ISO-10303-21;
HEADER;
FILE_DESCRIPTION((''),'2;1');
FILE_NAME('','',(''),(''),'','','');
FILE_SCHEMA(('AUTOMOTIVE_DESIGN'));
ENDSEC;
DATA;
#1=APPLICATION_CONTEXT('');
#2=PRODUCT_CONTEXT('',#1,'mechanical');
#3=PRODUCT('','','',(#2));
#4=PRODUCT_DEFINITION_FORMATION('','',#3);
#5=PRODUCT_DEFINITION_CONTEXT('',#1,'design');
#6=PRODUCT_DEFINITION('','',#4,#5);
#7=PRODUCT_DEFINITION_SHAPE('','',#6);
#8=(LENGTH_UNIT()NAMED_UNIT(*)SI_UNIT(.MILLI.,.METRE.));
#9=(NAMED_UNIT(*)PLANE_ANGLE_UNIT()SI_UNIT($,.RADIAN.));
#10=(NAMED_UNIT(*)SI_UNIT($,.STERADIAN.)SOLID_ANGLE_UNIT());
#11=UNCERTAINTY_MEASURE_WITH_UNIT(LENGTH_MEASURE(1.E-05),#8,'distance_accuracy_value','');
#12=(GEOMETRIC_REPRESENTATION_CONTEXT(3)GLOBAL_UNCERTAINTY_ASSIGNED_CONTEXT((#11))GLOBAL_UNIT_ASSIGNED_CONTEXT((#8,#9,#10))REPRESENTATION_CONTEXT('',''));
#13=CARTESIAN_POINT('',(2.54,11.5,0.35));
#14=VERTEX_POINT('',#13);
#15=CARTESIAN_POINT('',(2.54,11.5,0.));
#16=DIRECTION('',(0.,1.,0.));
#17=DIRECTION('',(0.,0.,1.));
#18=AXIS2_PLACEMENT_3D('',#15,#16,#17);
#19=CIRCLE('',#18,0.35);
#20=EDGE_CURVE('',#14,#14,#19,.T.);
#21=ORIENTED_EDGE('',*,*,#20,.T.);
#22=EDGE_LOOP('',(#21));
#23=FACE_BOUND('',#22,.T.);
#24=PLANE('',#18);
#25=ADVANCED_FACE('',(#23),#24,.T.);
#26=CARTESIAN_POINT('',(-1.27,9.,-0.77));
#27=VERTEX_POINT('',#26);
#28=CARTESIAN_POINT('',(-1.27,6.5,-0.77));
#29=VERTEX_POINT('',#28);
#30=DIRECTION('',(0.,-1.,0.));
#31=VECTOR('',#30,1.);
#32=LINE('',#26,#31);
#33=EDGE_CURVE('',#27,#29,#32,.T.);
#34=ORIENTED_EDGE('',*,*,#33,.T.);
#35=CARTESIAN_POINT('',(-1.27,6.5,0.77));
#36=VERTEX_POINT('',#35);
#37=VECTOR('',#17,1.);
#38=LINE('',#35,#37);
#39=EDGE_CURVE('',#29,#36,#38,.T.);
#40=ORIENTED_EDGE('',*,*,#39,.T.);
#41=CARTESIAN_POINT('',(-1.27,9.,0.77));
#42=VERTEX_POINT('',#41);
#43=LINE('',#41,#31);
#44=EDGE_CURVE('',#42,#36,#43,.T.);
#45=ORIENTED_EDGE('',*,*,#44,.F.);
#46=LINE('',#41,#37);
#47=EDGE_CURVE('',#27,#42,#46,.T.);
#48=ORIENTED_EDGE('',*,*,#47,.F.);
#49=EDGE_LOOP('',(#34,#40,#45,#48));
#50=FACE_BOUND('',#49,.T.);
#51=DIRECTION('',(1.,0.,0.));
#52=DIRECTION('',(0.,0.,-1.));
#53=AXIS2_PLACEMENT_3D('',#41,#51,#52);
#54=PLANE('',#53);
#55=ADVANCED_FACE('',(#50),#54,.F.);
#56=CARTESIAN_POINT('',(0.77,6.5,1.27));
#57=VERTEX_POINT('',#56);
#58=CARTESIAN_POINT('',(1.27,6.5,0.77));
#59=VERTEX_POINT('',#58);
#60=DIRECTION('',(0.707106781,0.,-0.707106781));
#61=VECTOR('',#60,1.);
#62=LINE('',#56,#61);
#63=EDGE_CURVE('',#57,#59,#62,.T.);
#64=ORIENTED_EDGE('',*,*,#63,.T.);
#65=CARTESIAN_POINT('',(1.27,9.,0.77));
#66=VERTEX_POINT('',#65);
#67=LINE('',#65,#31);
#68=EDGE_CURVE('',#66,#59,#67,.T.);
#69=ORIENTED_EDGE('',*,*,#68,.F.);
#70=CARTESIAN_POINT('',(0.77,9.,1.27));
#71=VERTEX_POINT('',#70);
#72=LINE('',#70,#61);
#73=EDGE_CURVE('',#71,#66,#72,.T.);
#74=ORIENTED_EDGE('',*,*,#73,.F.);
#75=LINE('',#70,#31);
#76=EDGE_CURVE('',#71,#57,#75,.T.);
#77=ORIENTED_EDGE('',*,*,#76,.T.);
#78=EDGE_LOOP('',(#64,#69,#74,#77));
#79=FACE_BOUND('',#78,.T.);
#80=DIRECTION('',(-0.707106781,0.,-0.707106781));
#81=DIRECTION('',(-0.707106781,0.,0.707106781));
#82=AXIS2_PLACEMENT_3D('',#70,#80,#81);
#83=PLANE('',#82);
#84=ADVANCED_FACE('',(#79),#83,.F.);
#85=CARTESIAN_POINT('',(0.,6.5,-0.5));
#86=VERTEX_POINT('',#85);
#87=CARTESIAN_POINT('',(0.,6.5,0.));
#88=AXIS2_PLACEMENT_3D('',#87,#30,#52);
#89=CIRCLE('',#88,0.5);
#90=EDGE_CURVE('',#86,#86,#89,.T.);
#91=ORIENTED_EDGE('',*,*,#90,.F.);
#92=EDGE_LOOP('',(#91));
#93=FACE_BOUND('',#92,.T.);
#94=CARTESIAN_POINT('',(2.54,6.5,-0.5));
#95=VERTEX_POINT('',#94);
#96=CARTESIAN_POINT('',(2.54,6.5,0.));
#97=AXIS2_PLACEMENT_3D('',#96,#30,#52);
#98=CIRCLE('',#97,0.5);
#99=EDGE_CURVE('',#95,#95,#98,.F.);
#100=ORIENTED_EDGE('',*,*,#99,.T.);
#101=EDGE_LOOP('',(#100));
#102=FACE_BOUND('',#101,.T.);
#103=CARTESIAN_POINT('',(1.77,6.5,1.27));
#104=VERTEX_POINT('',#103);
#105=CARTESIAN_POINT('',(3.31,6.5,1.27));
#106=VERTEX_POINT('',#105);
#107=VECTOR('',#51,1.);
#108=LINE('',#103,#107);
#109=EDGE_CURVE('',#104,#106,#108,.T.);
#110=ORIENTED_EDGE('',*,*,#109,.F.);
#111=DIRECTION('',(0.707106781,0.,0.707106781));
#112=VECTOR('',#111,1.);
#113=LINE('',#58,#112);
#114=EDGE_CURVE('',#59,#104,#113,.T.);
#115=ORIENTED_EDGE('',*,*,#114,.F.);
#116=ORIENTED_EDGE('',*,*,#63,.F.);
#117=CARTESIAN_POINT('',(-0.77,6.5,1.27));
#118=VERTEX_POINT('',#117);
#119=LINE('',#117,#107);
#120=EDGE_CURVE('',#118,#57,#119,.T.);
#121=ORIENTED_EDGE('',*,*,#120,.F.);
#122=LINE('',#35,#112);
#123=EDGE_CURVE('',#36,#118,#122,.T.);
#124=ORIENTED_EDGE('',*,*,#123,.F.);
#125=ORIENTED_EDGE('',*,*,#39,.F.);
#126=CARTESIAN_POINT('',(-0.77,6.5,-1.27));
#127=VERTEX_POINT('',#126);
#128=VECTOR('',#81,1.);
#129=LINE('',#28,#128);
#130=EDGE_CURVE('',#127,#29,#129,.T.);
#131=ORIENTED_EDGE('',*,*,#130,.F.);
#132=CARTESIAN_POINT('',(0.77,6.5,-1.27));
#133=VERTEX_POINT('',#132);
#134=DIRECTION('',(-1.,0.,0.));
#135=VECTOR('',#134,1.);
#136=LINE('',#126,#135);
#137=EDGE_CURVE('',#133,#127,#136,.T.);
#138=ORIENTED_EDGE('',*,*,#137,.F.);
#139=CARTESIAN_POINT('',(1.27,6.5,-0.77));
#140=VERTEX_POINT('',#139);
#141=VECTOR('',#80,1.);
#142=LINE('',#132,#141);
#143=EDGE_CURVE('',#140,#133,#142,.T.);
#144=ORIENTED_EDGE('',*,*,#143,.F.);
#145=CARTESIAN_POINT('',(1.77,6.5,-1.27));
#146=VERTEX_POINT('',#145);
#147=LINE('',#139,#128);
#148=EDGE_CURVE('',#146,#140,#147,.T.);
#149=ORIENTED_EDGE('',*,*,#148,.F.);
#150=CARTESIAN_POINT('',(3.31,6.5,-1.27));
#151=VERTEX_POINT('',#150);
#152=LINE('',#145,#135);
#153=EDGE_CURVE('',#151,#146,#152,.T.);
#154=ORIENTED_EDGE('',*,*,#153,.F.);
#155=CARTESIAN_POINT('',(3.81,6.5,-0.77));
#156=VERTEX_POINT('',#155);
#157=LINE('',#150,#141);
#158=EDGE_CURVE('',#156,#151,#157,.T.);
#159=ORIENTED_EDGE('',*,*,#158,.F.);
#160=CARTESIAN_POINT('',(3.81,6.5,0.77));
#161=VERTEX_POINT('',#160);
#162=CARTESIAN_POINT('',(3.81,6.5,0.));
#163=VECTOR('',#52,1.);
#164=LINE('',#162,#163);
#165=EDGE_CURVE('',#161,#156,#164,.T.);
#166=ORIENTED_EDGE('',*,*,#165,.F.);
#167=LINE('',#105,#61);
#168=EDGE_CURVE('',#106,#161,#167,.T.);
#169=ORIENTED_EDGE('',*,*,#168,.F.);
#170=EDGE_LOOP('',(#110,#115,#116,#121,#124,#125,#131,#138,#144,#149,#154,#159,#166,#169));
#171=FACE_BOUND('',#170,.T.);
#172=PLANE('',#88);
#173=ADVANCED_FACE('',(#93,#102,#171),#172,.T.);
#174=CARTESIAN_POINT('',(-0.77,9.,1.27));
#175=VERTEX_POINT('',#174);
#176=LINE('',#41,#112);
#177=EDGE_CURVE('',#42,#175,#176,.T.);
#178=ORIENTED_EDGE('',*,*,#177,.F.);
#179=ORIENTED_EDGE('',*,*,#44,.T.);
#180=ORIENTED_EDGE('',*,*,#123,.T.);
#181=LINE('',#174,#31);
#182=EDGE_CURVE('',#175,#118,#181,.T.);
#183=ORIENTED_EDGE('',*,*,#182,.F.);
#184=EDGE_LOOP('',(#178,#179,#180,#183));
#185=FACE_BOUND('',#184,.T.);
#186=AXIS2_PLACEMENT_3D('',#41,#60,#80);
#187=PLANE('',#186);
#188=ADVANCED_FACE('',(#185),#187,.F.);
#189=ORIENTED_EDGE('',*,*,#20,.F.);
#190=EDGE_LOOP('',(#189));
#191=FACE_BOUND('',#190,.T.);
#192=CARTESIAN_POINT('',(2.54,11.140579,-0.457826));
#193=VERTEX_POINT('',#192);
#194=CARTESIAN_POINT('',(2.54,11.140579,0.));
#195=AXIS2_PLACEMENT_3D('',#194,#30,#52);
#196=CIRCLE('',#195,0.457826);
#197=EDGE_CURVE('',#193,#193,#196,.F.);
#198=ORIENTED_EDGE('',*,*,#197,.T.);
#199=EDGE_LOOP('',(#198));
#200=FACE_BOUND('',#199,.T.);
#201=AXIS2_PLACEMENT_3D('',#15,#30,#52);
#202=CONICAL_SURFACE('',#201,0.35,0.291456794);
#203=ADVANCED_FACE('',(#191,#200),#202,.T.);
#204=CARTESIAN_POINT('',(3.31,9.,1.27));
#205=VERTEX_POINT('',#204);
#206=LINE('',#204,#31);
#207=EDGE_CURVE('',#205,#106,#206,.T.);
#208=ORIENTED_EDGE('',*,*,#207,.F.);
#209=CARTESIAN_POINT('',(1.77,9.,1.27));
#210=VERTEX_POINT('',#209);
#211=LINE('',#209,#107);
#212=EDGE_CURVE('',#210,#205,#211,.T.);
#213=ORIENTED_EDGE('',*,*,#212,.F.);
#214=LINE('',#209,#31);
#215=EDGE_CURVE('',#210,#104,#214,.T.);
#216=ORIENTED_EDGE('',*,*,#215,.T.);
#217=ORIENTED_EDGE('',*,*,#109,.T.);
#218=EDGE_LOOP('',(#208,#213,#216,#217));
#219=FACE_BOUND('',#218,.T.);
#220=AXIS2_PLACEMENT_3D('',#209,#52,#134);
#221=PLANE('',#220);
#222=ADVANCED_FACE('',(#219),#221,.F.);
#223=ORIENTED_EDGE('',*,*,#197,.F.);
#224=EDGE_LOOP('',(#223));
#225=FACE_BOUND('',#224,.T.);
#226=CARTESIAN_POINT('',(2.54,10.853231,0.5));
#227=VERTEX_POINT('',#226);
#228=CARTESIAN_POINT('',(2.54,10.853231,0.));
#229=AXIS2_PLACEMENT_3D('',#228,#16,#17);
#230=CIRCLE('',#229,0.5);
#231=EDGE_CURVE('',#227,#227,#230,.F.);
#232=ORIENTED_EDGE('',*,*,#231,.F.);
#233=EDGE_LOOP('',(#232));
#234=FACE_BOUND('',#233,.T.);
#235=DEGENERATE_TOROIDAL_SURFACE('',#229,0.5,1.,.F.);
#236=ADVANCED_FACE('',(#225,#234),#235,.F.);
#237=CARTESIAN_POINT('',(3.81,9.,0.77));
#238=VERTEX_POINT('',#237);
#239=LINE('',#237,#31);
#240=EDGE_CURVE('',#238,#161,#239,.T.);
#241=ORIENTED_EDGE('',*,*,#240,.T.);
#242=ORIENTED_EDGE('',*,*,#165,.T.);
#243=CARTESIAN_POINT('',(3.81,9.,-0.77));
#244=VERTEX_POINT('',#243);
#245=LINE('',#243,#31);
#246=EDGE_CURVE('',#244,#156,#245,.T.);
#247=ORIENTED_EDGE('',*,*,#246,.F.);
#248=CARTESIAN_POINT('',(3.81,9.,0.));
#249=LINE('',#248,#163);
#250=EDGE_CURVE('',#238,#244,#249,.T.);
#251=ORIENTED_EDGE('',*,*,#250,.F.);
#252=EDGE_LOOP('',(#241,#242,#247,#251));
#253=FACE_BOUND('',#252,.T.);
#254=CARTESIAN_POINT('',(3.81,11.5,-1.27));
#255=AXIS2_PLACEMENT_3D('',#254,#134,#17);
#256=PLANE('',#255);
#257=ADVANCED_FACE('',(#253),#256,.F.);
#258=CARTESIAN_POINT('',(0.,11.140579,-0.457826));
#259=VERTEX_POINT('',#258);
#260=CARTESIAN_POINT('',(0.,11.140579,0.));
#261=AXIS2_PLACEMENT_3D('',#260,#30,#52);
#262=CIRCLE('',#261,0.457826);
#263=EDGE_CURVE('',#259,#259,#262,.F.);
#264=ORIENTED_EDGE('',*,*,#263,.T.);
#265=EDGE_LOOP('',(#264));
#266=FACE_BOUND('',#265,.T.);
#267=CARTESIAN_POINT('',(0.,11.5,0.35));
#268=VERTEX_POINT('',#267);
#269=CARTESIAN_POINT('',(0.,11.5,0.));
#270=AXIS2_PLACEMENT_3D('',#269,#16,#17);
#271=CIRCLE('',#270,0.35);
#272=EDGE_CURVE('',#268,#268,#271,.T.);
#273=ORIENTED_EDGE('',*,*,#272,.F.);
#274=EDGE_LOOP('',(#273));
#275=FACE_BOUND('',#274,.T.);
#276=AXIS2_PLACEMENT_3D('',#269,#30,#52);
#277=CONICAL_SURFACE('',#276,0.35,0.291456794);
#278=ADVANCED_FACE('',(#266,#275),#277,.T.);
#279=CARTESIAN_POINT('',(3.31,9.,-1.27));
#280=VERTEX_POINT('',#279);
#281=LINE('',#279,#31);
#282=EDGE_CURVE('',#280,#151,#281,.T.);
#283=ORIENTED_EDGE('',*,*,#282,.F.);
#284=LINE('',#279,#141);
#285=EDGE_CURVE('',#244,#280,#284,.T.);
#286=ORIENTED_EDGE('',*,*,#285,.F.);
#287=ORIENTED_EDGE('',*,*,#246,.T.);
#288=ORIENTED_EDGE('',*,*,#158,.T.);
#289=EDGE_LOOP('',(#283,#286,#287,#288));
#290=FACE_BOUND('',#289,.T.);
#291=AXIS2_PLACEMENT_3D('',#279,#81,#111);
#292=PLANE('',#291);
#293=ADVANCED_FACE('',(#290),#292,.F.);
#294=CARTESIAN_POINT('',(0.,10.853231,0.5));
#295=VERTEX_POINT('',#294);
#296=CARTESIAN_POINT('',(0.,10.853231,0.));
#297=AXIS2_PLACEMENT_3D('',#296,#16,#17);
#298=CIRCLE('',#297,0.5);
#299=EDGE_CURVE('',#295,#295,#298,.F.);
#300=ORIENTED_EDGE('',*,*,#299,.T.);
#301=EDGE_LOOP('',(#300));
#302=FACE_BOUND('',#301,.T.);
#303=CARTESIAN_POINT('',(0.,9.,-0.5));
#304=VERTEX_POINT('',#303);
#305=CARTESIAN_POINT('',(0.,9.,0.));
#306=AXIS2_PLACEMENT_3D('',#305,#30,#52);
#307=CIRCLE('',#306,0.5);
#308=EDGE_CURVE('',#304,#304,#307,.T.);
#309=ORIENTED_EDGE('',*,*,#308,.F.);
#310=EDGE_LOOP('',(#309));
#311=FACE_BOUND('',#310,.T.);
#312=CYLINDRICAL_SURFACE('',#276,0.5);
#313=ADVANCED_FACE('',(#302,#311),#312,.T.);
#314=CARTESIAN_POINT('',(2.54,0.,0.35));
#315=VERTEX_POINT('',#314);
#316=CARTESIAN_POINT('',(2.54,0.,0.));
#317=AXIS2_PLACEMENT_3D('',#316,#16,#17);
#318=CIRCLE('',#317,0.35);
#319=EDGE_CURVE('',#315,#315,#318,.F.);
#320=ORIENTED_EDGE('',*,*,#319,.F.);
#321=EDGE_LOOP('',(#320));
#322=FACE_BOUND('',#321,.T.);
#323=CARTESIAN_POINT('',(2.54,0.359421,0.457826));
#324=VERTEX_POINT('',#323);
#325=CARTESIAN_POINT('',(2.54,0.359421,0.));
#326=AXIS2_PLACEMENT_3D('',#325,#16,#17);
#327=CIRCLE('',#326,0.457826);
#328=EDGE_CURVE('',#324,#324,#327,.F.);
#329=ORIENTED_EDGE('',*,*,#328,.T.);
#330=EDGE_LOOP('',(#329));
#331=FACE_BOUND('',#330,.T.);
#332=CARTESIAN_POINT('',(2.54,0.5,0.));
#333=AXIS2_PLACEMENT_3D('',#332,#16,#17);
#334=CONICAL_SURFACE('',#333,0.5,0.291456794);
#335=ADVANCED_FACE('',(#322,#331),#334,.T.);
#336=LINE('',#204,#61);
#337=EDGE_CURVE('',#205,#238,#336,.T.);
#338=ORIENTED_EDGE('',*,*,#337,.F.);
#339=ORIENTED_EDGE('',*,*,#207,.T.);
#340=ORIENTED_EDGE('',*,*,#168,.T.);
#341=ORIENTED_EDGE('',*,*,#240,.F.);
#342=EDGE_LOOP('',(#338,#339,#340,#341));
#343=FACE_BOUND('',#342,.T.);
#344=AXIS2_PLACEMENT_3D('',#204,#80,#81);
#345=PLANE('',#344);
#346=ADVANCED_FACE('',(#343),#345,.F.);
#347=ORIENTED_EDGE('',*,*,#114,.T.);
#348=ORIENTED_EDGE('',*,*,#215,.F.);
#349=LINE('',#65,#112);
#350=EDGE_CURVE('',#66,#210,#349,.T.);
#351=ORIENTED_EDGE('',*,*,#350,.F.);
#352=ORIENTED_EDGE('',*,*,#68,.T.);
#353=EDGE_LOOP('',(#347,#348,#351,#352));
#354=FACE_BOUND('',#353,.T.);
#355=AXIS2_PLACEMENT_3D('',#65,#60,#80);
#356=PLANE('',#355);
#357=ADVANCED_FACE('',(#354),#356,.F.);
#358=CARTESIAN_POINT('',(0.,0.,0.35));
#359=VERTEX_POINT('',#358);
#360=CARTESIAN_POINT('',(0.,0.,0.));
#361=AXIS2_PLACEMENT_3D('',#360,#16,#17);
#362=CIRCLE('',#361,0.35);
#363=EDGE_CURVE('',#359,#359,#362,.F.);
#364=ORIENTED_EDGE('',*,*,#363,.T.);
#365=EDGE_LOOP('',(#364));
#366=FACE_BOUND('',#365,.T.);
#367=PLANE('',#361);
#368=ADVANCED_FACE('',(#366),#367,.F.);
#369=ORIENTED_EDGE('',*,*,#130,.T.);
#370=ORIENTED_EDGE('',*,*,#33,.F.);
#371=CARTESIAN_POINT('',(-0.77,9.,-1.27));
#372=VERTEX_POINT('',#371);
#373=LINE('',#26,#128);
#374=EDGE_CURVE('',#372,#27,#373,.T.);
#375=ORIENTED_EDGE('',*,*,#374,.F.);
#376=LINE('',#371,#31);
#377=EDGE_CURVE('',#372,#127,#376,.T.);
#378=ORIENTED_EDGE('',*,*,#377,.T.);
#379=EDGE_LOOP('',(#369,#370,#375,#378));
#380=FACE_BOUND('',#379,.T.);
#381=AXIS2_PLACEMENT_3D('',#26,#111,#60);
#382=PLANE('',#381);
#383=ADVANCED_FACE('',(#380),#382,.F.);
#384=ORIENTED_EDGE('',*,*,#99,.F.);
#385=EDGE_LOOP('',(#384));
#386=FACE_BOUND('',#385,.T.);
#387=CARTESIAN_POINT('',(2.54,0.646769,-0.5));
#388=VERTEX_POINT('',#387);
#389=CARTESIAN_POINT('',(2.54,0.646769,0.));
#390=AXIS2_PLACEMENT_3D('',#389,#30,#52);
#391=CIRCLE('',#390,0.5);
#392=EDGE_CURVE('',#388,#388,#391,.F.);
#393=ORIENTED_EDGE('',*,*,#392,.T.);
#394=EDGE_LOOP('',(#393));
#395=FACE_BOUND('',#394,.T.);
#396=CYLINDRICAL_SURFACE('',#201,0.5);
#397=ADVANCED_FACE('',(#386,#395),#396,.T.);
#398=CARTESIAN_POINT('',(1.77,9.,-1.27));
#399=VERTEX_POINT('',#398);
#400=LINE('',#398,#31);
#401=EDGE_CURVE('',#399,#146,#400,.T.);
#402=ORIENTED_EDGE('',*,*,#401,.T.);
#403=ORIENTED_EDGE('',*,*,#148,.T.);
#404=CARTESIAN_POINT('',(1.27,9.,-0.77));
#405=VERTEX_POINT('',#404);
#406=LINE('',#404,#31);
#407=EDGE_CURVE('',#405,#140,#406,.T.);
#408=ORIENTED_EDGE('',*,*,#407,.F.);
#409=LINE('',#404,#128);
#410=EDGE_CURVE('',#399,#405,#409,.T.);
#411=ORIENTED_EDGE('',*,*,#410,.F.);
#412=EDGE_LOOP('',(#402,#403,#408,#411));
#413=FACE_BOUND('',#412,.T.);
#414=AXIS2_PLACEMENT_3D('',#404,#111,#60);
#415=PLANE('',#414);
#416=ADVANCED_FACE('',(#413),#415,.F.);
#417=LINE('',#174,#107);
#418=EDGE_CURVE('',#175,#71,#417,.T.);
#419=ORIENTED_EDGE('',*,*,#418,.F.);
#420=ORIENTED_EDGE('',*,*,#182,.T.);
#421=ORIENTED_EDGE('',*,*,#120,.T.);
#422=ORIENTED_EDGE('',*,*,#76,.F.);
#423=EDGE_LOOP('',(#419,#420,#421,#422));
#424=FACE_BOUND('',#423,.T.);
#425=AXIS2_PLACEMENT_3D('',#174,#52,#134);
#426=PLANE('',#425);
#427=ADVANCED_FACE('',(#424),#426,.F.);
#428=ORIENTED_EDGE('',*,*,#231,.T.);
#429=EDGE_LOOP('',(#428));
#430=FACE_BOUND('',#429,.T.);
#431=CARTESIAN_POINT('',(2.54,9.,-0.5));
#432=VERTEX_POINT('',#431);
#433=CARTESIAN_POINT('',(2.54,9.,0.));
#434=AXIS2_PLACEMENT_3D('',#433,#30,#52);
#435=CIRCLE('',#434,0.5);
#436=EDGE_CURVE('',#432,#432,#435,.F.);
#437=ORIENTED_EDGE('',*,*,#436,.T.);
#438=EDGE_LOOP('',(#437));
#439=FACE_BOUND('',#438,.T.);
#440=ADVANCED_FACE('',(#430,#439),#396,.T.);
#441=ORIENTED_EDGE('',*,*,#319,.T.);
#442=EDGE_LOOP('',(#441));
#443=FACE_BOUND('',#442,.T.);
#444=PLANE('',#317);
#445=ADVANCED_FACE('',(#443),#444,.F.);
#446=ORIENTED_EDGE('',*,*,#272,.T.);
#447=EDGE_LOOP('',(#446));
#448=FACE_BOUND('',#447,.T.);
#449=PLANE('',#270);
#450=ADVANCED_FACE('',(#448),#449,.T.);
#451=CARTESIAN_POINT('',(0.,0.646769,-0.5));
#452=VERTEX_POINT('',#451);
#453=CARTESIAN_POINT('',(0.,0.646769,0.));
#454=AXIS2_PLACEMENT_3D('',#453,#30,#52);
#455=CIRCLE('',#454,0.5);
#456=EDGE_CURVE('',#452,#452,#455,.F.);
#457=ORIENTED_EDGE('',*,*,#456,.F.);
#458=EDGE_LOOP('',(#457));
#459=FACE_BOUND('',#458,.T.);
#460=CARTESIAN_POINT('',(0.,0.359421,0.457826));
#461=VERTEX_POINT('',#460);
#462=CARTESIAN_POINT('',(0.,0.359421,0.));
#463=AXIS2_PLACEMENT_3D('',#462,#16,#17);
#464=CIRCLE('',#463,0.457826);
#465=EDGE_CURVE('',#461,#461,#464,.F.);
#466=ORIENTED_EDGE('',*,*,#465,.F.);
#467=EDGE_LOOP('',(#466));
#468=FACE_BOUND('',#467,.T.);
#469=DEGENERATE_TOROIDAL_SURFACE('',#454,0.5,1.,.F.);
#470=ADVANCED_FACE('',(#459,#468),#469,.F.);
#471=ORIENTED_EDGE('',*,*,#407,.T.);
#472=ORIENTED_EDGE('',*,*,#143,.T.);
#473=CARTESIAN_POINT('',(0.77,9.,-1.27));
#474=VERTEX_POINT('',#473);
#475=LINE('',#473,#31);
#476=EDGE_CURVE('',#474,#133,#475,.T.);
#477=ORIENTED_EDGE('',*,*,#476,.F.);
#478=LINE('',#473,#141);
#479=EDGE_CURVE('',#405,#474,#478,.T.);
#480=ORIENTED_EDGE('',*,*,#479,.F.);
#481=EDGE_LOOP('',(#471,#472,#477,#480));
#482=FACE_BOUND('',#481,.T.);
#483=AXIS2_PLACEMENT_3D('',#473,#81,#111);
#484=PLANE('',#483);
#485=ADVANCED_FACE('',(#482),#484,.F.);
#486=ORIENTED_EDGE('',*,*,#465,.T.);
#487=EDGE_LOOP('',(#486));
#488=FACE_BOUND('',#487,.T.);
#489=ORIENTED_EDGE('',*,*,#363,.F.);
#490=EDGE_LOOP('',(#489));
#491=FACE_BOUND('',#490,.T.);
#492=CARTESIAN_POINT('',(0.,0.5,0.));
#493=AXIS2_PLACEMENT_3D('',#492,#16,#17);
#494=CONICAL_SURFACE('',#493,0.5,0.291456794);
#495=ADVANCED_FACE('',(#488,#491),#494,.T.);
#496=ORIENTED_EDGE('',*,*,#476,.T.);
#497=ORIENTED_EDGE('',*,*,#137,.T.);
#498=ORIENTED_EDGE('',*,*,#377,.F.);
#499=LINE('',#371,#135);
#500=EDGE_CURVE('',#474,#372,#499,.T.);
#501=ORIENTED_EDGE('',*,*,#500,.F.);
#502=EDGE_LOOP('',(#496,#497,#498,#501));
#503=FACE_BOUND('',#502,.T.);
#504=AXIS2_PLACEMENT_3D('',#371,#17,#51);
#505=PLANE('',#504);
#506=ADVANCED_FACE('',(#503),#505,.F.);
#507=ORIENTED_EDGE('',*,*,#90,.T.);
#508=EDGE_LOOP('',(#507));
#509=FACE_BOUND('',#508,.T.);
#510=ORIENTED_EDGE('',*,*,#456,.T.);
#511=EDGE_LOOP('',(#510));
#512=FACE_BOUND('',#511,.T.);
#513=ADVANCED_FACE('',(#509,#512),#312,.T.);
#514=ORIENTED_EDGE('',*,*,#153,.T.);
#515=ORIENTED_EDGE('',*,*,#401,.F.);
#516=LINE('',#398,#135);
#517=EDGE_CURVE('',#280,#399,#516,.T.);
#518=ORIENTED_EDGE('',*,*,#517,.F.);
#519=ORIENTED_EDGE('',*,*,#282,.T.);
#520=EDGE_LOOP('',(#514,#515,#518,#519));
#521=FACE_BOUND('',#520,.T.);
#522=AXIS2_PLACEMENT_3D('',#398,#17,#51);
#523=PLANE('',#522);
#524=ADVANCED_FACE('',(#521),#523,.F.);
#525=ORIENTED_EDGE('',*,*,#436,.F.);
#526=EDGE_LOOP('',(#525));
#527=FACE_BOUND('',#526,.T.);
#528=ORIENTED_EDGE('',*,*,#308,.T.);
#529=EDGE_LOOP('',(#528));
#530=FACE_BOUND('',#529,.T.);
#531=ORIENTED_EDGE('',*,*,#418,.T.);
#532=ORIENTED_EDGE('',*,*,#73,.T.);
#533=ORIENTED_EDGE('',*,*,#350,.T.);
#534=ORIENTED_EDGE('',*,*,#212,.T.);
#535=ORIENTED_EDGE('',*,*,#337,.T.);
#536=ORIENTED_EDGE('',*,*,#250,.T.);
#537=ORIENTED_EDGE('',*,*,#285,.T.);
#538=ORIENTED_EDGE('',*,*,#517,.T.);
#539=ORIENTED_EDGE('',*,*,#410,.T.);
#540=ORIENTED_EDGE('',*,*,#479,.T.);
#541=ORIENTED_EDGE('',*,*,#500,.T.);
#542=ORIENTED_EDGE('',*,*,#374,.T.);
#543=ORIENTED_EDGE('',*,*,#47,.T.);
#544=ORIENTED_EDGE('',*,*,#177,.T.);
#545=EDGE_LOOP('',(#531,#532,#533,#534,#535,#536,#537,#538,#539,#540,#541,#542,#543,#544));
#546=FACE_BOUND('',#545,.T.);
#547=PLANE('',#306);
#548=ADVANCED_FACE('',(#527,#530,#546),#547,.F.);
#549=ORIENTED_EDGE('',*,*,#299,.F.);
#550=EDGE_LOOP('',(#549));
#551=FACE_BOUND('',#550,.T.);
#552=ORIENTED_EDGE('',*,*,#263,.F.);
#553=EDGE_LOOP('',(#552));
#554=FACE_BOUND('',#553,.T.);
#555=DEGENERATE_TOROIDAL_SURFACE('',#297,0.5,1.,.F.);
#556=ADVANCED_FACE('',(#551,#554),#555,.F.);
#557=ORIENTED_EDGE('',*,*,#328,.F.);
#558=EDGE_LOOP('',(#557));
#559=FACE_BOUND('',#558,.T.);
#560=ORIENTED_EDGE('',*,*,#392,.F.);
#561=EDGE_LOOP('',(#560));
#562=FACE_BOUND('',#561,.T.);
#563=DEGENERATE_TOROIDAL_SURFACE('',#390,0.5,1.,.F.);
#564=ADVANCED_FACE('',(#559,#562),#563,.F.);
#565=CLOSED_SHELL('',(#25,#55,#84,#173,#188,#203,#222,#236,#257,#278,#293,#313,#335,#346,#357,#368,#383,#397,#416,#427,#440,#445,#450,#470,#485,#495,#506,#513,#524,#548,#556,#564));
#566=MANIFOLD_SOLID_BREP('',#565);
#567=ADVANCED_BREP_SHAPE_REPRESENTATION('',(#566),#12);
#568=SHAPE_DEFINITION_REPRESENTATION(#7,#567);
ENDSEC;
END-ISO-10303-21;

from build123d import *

# Parameters (mm, degrees)
SKETCH1_R               = 0.5
BOSS_EXTRUDE1_DEPTH     = 11.5
BOSS_EXTRUDE1_2_DEPTH   = 11.5
BOSS_EXTRUDE1_3_DEPTH   = 11.5
BOSS_EXTRUDE1_4_DEPTH   = 11.5
BOSS_EXTRUDE1_5_DEPTH   = 11.5
BOSS_EXTRUDE1_6_DEPTH   = 11.5
BOSS_EXTRUDE1_7_DEPTH   = 11.5
BOSS_EXTRUDE1_8_DEPTH   = 11.5
BOSS_EXTRUDE1_9_DEPTH   = 11.5
BOSS_EXTRUDE1_10_DEPTH  = 11.5
BOSS_EXTRUDE1_11_DEPTH  = 11.5
BOSS_EXTRUDE1_12_DEPTH  = 11.5
BOSS_EXTRUDE1_13_DEPTH  = 11.5
BOSS_EXTRUDE1_14_DEPTH  = 11.5
BOSS_EXTRUDE1_15_DEPTH  = 11.5
BOSS_EXTRUDE1_16_DEPTH  = 11.5
BOSS_EXTRUDE2_DEPTH     = 2.5
CHAMFER1_SIZE           = 0.5
CHAMFER1_SIZE2          = 0.15
CHAMFER1_PART_2_SIZE    = 0.5
CHAMFER1_PART_2_SIZE2   = 0.15
CHAMFER1_PART_3_SIZE    = 0.5
CHAMFER1_PART_3_SIZE2   = 0.15
CHAMFER1_PART_4_SIZE    = 0.5
CHAMFER1_PART_4_SIZE2   = 0.15
CHAMFER1_PART_5_SIZE    = 0.5
CHAMFER1_PART_5_SIZE2   = 0.15
CHAMFER1_PART_6_SIZE    = 0.5
CHAMFER1_PART_6_SIZE2   = 0.15
CHAMFER1_PART_7_SIZE    = 0.5
CHAMFER1_PART_7_SIZE2   = 0.15
CHAMFER1_PART_8_SIZE    = 0.5
CHAMFER1_PART_8_SIZE2   = 0.15
CHAMFER1_PART_9_SIZE    = 0.5
CHAMFER1_PART_9_SIZE2   = 0.15
CHAMFER1_PART_10_SIZE   = 0.5
CHAMFER1_PART_10_SIZE2  = 0.15
CHAMFER1_PART_11_SIZE   = 0.5
CHAMFER1_PART_11_SIZE2  = 0.15
CHAMFER1_PART_12_SIZE   = 0.5
CHAMFER1_PART_12_SIZE2  = 0.15
CHAMFER1_PART_13_SIZE   = 0.5
CHAMFER1_PART_13_SIZE2  = 0.15
CHAMFER1_PART_14_SIZE   = 0.5
CHAMFER1_PART_14_SIZE2  = 0.15
CHAMFER1_PART_15_SIZE   = 0.5
CHAMFER1_PART_15_SIZE2  = 0.15
CHAMFER1_PART_16_SIZE   = 0.5
CHAMFER1_PART_16_SIZE2  = 0.15
FILLET1_R               = 1
CHAMFER2_SIZE           = 0.15
CHAMFER2_SIZE2          = 0.5
CHAMFER2_PART_2_SIZE    = 0.15
CHAMFER2_PART_2_SIZE2   = 0.5
CHAMFER2_PART_3_SIZE    = 0.15
CHAMFER2_PART_3_SIZE2   = 0.5
CHAMFER2_PART_4_SIZE    = 0.15
CHAMFER2_PART_4_SIZE2   = 0.5
CHAMFER2_PART_5_SIZE    = 0.15
CHAMFER2_PART_5_SIZE2   = 0.5
CHAMFER2_PART_6_SIZE    = 0.15
CHAMFER2_PART_6_SIZE2   = 0.5
CHAMFER2_PART_7_SIZE    = 0.15
CHAMFER2_PART_7_SIZE2   = 0.5
CHAMFER2_PART_8_SIZE    = 0.15
CHAMFER2_PART_8_SIZE2   = 0.5
CHAMFER2_PART_9_SIZE    = 0.15
CHAMFER2_PART_9_SIZE2   = 0.5
CHAMFER2_PART_10_SIZE   = 0.15
CHAMFER2_PART_10_SIZE2  = 0.5
CHAMFER2_PART_11_SIZE   = 0.15
CHAMFER2_PART_11_SIZE2  = 0.5
CHAMFER2_PART_12_SIZE   = 0.15
CHAMFER2_PART_12_SIZE2  = 0.5
CHAMFER2_PART_13_SIZE   = 0.15
CHAMFER2_PART_13_SIZE2  = 0.5
CHAMFER2_PART_14_SIZE   = 0.15
CHAMFER2_PART_14_SIZE2  = 0.5
CHAMFER2_PART_15_SIZE   = 0.15
CHAMFER2_PART_15_SIZE2  = 0.5
CHAMFER2_PART_16_SIZE   = 0.15
CHAMFER2_PART_16_SIZE2  = 0.5
FILLET2_R               = 1
CUT_EXTRUDE1_DEPTH      = 3.54
CUT_EXTRUDE2_DEPTH      = 3.54
SKETCH5_W               = 12.7
SKETCH5_H               = 11.5
CUT_EXTRUDE3_DEPTH      = 1
CUT_EXTRUDE3_DEPTH_BACK = 3.54


with BuildPart() as part:
    # Sketch1 → Boss-Extrude1 (new body)
    with BuildSketch(Plane(origin=(0, 0, 0), x_dir=(1, 0, 0), z_dir=(0, 1, 0))):
        Circle(SKETCH1_R)
    extrude(amount=BOSS_EXTRUDE1_DEPTH)



with BuildPart() as body_2:
    # Sketch1 → Boss-Extrude1 2 (new body)
    with BuildSketch(Plane(origin=(0, 0, 0), x_dir=(1, 0, 0), z_dir=(0, 1, 0))):
        with Locations((2.54, 0)):
            Circle(SKETCH1_R)
    extrude(amount=BOSS_EXTRUDE1_2_DEPTH)


with BuildPart() as body_3:
    # Sketch1 → Boss-Extrude1 3 (new body)
    with BuildSketch(Plane(origin=(0, 0, 0), x_dir=(1, 0, 0), z_dir=(0, 1, 0))):
        with Locations((5.08, 0)):
            Circle(SKETCH1_R)
    extrude(amount=BOSS_EXTRUDE1_3_DEPTH)


with BuildPart() as body_4:
    # Sketch1 → Boss-Extrude1 4 (new body)
    with BuildSketch(Plane(origin=(0, 0, 0), x_dir=(1, 0, 0), z_dir=(0, 1, 0))):
        with Locations((7.62, 0)):
            Circle(SKETCH1_R)
    extrude(amount=BOSS_EXTRUDE1_4_DEPTH)


with BuildPart() as body_5:
    # Sketch1 → Boss-Extrude1 5 (new body)
    with BuildSketch(Plane(origin=(0, 0, 0), x_dir=(1, 0, 0), z_dir=(0, 1, 0))):
        with Locations((10.16, 0)):
            Circle(SKETCH1_R)
    extrude(amount=BOSS_EXTRUDE1_5_DEPTH)


with BuildPart() as body_6:
    # Sketch1 → Boss-Extrude1 6 (new body)
    with BuildSketch(Plane(origin=(0, 0, 0), x_dir=(1, 0, 0), z_dir=(0, 1, 0))):
        with Locations((12.7, 0)):
            Circle(SKETCH1_R)
    extrude(amount=BOSS_EXTRUDE1_6_DEPTH)


with BuildPart() as body_7:
    # Sketch1 → Boss-Extrude1 7 (new body)
    with BuildSketch(Plane(origin=(0, 0, 0), x_dir=(1, 0, 0), z_dir=(0, 1, 0))):
        with Locations((15.24, 0)):
            Circle(SKETCH1_R)
    extrude(amount=BOSS_EXTRUDE1_7_DEPTH)


with BuildPart() as body_8:
    # Sketch1 → Boss-Extrude1 8 (new body)
    with BuildSketch(Plane(origin=(0, 0, 0), x_dir=(1, 0, 0), z_dir=(0, 1, 0))):
        with Locations((17.78, 0)):
            Circle(SKETCH1_R)
    extrude(amount=BOSS_EXTRUDE1_8_DEPTH)


with BuildPart() as body_9:
    # Sketch1 → Boss-Extrude1 9 (new body)
    with BuildSketch(Plane(origin=(0, 0, 0), x_dir=(1, 0, 0), z_dir=(0, 1, 0))):
        with Locations((20.32, 0)):
            Circle(SKETCH1_R)
    extrude(amount=BOSS_EXTRUDE1_9_DEPTH)


with BuildPart() as body_10:
    # Sketch1 → Boss-Extrude1 10 (new body)
    with BuildSketch(Plane(origin=(0, 0, 0), x_dir=(1, 0, 0), z_dir=(0, 1, 0))):
        with Locations((22.86, 0)):
            Circle(SKETCH1_R)
    extrude(amount=BOSS_EXTRUDE1_10_DEPTH)


with BuildPart() as body_11:
    # Sketch1 → Boss-Extrude1 11 (new body)
    with BuildSketch(Plane(origin=(0, 0, 0), x_dir=(1, 0, 0), z_dir=(0, 1, 0))):
        with Locations((25.4, 0)):
            Circle(SKETCH1_R)
    extrude(amount=BOSS_EXTRUDE1_11_DEPTH)


with BuildPart() as body_12:
    # Sketch1 → Boss-Extrude1 12 (new body)
    with BuildSketch(Plane(origin=(0, 0, 0), x_dir=(1, 0, 0), z_dir=(0, 1, 0))):
        with Locations((27.94, 0)):
            Circle(SKETCH1_R)
    extrude(amount=BOSS_EXTRUDE1_12_DEPTH)


with BuildPart() as body_13:
    # Sketch1 → Boss-Extrude1 13 (new body)
    with BuildSketch(Plane(origin=(0, 0, 0), x_dir=(1, 0, 0), z_dir=(0, 1, 0))):
        with Locations((30.48, 0)):
            Circle(SKETCH1_R)
    extrude(amount=BOSS_EXTRUDE1_13_DEPTH)


with BuildPart() as body_14:
    # Sketch1 → Boss-Extrude1 14 (new body)
    with BuildSketch(Plane(origin=(0, 0, 0), x_dir=(1, 0, 0), z_dir=(0, 1, 0))):
        with Locations((33.02, 0)):
            Circle(SKETCH1_R)
    extrude(amount=BOSS_EXTRUDE1_14_DEPTH)


with BuildPart() as body_15:
    # Sketch1 → Boss-Extrude1 15 (new body)
    with BuildSketch(Plane(origin=(0, 0, 0), x_dir=(1, 0, 0), z_dir=(0, 1, 0))):
        with Locations((35.56, 0)):
            Circle(SKETCH1_R)
    extrude(amount=BOSS_EXTRUDE1_15_DEPTH)


with BuildPart() as body_16:
    # Sketch1 → Boss-Extrude1 16 (new body)
    with BuildSketch(Plane(origin=(0, 0, 0), x_dir=(1, 0, 0), z_dir=(0, 1, 0))):
        with Locations((38.1, 0)):
            Circle(SKETCH1_R)
    extrude(amount=BOSS_EXTRUDE1_16_DEPTH)


with BuildPart() as part_1:
    add(part.part)

    add(body_2.part)  # Boss-Extrude2 merges body 2

    add(body_3.part)  # Boss-Extrude2 merges body 3

    add(body_4.part)  # Boss-Extrude2 merges body 4

    add(body_5.part)  # Boss-Extrude2 merges body 5

    add(body_6.part)  # Boss-Extrude2 merges body 6

    add(body_7.part)  # Boss-Extrude2 merges body 7

    add(body_8.part)  # Boss-Extrude2 merges body 8

    add(body_9.part)  # Boss-Extrude2 merges body 9

    add(body_10.part)  # Boss-Extrude2 merges body 10

    add(body_11.part)  # Boss-Extrude2 merges body 11

    add(body_12.part)  # Boss-Extrude2 merges body 12

    add(body_13.part)  # Boss-Extrude2 merges body 13

    add(body_14.part)  # Boss-Extrude2 merges body 14

    add(body_15.part)  # Boss-Extrude2 merges body 15

    add(body_16.part)  # Boss-Extrude2 merges body 16
    # Sketch2 → Boss-Extrude2 (add)
    with BuildSketch(Plane(origin=(0, 6.5, 0), x_dir=(1, 0, 0), z_dir=(0, 1, 0))):
        Polygon((-1.27, 0.77), (-0.77, 1.27), (0.77, 1.27), (1.27, 0.77), (1.77, 1.27), (3.31, 1.27), (3.81, 0.77), (4.31, 1.27), (5.85, 1.27), (6.35, 0.77), (6.85, 1.27), (8.39, 1.27), (8.89, 0.77), (9.39, 1.27), (10.93, 1.27), (11.43, 0.77), (11.93, 1.27), (13.47, 1.27), (13.97, 0.77), (14.47, 1.27), (16.01, 1.27), (16.51, 0.77), (17.01, 1.27), (18.55, 1.27), (19.05, 0.77), (19.55, 1.27), (21.09, 1.27), (21.59, 0.77), (22.09, 1.27), (23.63, 1.27), (24.13, 0.77), (24.63, 1.27), (26.17, 1.27), (26.67, 0.77), (27.17, 1.27), (28.71, 1.27), (29.21, 0.77), (29.71, 1.27), (31.25, 1.27), (31.75, 0.77), (32.25, 1.27), (33.79, 1.27), (34.29, 0.77), (34.79, 1.27), (36.33, 1.27), (36.83, 0.77), (37.33, 1.27), (38.87, 1.27), (39.37, 0.77), (39.37, -0.77), (38.87, -1.27), (37.33, -1.27), (36.83, -0.77), (36.33, -1.27), (34.79, -1.27), (34.29, -0.77), (33.79, -1.27), (32.25, -1.27), (31.75, -0.77), (31.25, -1.27), (29.71, -1.27), (29.21, -0.77), (28.71, -1.27), (27.17, -1.27), (26.67, -0.77), (26.17, -1.27), (24.63, -1.27), (24.13, -0.77), (23.63, -1.27), (22.09, -1.27), (21.59, -0.77), (21.09, -1.27), (19.55, -1.27), (19.05, -0.77), (18.55, -1.27), (17.01, -1.27), (16.51, -0.77), (16.01, -1.27), (14.47, -1.27), (13.97, -0.77), (13.47, -1.27), (11.93, -1.27), (11.43, -0.77), (10.93, -1.27), (9.39, -1.27), (8.89, -0.77), (8.39, -1.27), (6.85, -1.27), (6.35, -0.77), (5.85, -1.27), (4.31, -1.27), (3.81, -0.77), (3.31, -1.27), (1.77, -1.27), (1.27, -0.77), (0.77, -1.27), (-0.77, -1.27), (-1.27, -0.77), align=None)
    extrude(amount=BOSS_EXTRUDE2_DEPTH)

    # Chamfer1
    chamfer1_edges = [part_1.edges().sort_by_distance(p)[0] for p in [
        (2.04, 11.5, 0),
    ]]
    chamfer1_side = [part_1.faces().sort_by_distance(p)[0] for p in [
        (2.04, 10.25, 0),
    ]]
    chamfer(chamfer1_edges, length=CHAMFER1_SIZE, length2=CHAMFER1_SIZE2, reference=chamfer1_side[0])

    # Chamfer1 part 2
    chamfer1_part_2_edges = [part_1.edges().sort_by_distance(p)[0] for p in [
        (4.58, 11.5, 0),
    ]]
    chamfer1_part_2_side = [part_1.faces().sort_by_distance(p)[0] for p in [
        (4.58, 10.25, 0),
    ]]
    chamfer(chamfer1_part_2_edges, length=CHAMFER1_PART_2_SIZE, length2=CHAMFER1_PART_2_SIZE2, reference=chamfer1_part_2_side[0])

    # Chamfer1 part 3
    chamfer1_part_3_edges = [part_1.edges().sort_by_distance(p)[0] for p in [
        (7.12, 11.5, 0),
    ]]
    chamfer1_part_3_side = [part_1.faces().sort_by_distance(p)[0] for p in [
        (7.12, 10.25, 0),
    ]]
    chamfer(chamfer1_part_3_edges, length=CHAMFER1_PART_3_SIZE, length2=CHAMFER1_PART_3_SIZE2, reference=chamfer1_part_3_side[0])

    # Chamfer1 part 4
    chamfer1_part_4_edges = [part_1.edges().sort_by_distance(p)[0] for p in [
        (9.66, 11.5, 0),
    ]]
    chamfer1_part_4_side = [part_1.faces().sort_by_distance(p)[0] for p in [
        (9.66, 10.25, 0),
    ]]
    chamfer(chamfer1_part_4_edges, length=CHAMFER1_PART_4_SIZE, length2=CHAMFER1_PART_4_SIZE2, reference=chamfer1_part_4_side[0])

    # Chamfer1 part 5
    chamfer1_part_5_edges = [part_1.edges().sort_by_distance(p)[0] for p in [
        (12.2, 11.5, 0),
    ]]
    chamfer1_part_5_side = [part_1.faces().sort_by_distance(p)[0] for p in [
        (12.2, 10.25, 0),
    ]]
    chamfer(chamfer1_part_5_edges, length=CHAMFER1_PART_5_SIZE, length2=CHAMFER1_PART_5_SIZE2, reference=chamfer1_part_5_side[0])

    # Chamfer1 part 6
    chamfer1_part_6_edges = [part_1.edges().sort_by_distance(p)[0] for p in [
        (14.74, 11.5, 0),
    ]]
    chamfer1_part_6_side = [part_1.faces().sort_by_distance(p)[0] for p in [
        (14.74, 10.25, 0),
    ]]
    chamfer(chamfer1_part_6_edges, length=CHAMFER1_PART_6_SIZE, length2=CHAMFER1_PART_6_SIZE2, reference=chamfer1_part_6_side[0])

    # Chamfer1 part 7
    chamfer1_part_7_edges = [part_1.edges().sort_by_distance(p)[0] for p in [
        (17.28, 11.5, 0),
    ]]
    chamfer1_part_7_side = [part_1.faces().sort_by_distance(p)[0] for p in [
        (17.28, 10.25, 0),
    ]]
    chamfer(chamfer1_part_7_edges, length=CHAMFER1_PART_7_SIZE, length2=CHAMFER1_PART_7_SIZE2, reference=chamfer1_part_7_side[0])

    # Chamfer1 part 8
    chamfer1_part_8_edges = [part_1.edges().sort_by_distance(p)[0] for p in [
        (19.82, 11.5, 0),
    ]]
    chamfer1_part_8_side = [part_1.faces().sort_by_distance(p)[0] for p in [
        (19.82, 10.25, 0),
    ]]
    chamfer(chamfer1_part_8_edges, length=CHAMFER1_PART_8_SIZE, length2=CHAMFER1_PART_8_SIZE2, reference=chamfer1_part_8_side[0])

    # Chamfer1 part 9
    chamfer1_part_9_edges = [part_1.edges().sort_by_distance(p)[0] for p in [
        (22.36, 11.5, 0),
    ]]
    chamfer1_part_9_side = [part_1.faces().sort_by_distance(p)[0] for p in [
        (22.36, 10.25, 0),
    ]]
    chamfer(chamfer1_part_9_edges, length=CHAMFER1_PART_9_SIZE, length2=CHAMFER1_PART_9_SIZE2, reference=chamfer1_part_9_side[0])

    # Chamfer1 part 10
    chamfer1_part_10_edges = [part_1.edges().sort_by_distance(p)[0] for p in [
        (24.9, 11.5, 0),
    ]]
    chamfer1_part_10_side = [part_1.faces().sort_by_distance(p)[0] for p in [
        (24.9, 10.25, 0),
    ]]
    chamfer(chamfer1_part_10_edges, length=CHAMFER1_PART_10_SIZE, length2=CHAMFER1_PART_10_SIZE2, reference=chamfer1_part_10_side[0])

    # Chamfer1 part 11
    chamfer1_part_11_edges = [part_1.edges().sort_by_distance(p)[0] for p in [
        (27.44, 11.5, 0),
    ]]
    chamfer1_part_11_side = [part_1.faces().sort_by_distance(p)[0] for p in [
        (27.44, 10.25, 0),
    ]]
    chamfer(chamfer1_part_11_edges, length=CHAMFER1_PART_11_SIZE, length2=CHAMFER1_PART_11_SIZE2, reference=chamfer1_part_11_side[0])

    # Chamfer1 part 12
    chamfer1_part_12_edges = [part_1.edges().sort_by_distance(p)[0] for p in [
        (29.98, 11.5, 0),
    ]]
    chamfer1_part_12_side = [part_1.faces().sort_by_distance(p)[0] for p in [
        (29.98, 10.25, 0),
    ]]
    chamfer(chamfer1_part_12_edges, length=CHAMFER1_PART_12_SIZE, length2=CHAMFER1_PART_12_SIZE2, reference=chamfer1_part_12_side[0])

    # Chamfer1 part 13
    chamfer1_part_13_edges = [part_1.edges().sort_by_distance(p)[0] for p in [
        (32.52, 11.5, 0),
    ]]
    chamfer1_part_13_side = [part_1.faces().sort_by_distance(p)[0] for p in [
        (32.52, 10.25, 0),
    ]]
    chamfer(chamfer1_part_13_edges, length=CHAMFER1_PART_13_SIZE, length2=CHAMFER1_PART_13_SIZE2, reference=chamfer1_part_13_side[0])

    # Chamfer1 part 14
    chamfer1_part_14_edges = [part_1.edges().sort_by_distance(p)[0] for p in [
        (35.06, 11.5, 0),
    ]]
    chamfer1_part_14_side = [part_1.faces().sort_by_distance(p)[0] for p in [
        (35.06, 10.25, 0),
    ]]
    chamfer(chamfer1_part_14_edges, length=CHAMFER1_PART_14_SIZE, length2=CHAMFER1_PART_14_SIZE2, reference=chamfer1_part_14_side[0])

    # Chamfer1 part 15
    chamfer1_part_15_edges = [part_1.edges().sort_by_distance(p)[0] for p in [
        (37.6, 11.5, 0),
    ]]
    chamfer1_part_15_side = [part_1.faces().sort_by_distance(p)[0] for p in [
        (37.6, 10.25, 0),
    ]]
    chamfer(chamfer1_part_15_edges, length=CHAMFER1_PART_15_SIZE, length2=CHAMFER1_PART_15_SIZE2, reference=chamfer1_part_15_side[0])

    # Chamfer1 part 16
    chamfer1_part_16_edges = [part_1.edges().sort_by_distance(p)[0] for p in [
        (-0.5, 11.5, 0),
    ]]
    chamfer1_part_16_side = [part_1.faces().sort_by_distance(p)[0] for p in [
        (-0.5, 10.25, 0),
    ]]
    chamfer(chamfer1_part_16_edges, length=CHAMFER1_PART_16_SIZE, length2=CHAMFER1_PART_16_SIZE2, reference=chamfer1_part_16_side[0])

    # Fillet1
    fillet1_edges = [part_1.edges().sort_by_distance(p)[0] for p in [
        (37.6, 11, 0),
        (35.06, 11, 0),
        (32.52, 11, 0),
        (29.98, 11, 0),
        (27.44, 11, 0),
        (24.9, 11, 0),
        (22.36, 11, 0),
        (19.82, 11, 0),
        (17.28, 11, 0),
        (14.74, 11, 0),
        (12.2, 11, 0),
        (9.66, 11, 0),
        (7.12, 11, 0),
        (4.58, 11, 0),
        (2.04, 11, 0),
        (-0.5, 11, 0),
    ]]
    fillet(fillet1_edges, radius=FILLET1_R)

    # Chamfer2
    chamfer2_edges = [part_1.edges().sort_by_distance(p)[0] for p in [
        (-0.5, 0, 0),
    ]]
    chamfer2_side = [part_1.faces().sort_by_distance(p)[0] for p in [
        (0, 0, 0),
    ]]
    chamfer(chamfer2_edges, length=CHAMFER2_SIZE, length2=CHAMFER2_SIZE2, reference=chamfer2_side[0])

    # Chamfer2 part 2
    chamfer2_part_2_edges = [part_1.edges().sort_by_distance(p)[0] for p in [
        (2.04, 0, 0),
    ]]
    chamfer2_part_2_side = [part_1.faces().sort_by_distance(p)[0] for p in [
        (2.54, 0, 0),
    ]]
    chamfer(chamfer2_part_2_edges, length=CHAMFER2_PART_2_SIZE, length2=CHAMFER2_PART_2_SIZE2, reference=chamfer2_part_2_side[0])

    # Chamfer2 part 3
    chamfer2_part_3_edges = [part_1.edges().sort_by_distance(p)[0] for p in [
        (4.58, 0, 0),
    ]]
    chamfer2_part_3_side = [part_1.faces().sort_by_distance(p)[0] for p in [
        (5.08, 0, 0),
    ]]
    chamfer(chamfer2_part_3_edges, length=CHAMFER2_PART_3_SIZE, length2=CHAMFER2_PART_3_SIZE2, reference=chamfer2_part_3_side[0])

    # Chamfer2 part 4
    chamfer2_part_4_edges = [part_1.edges().sort_by_distance(p)[0] for p in [
        (7.12, 0, 0),
    ]]
    chamfer2_part_4_side = [part_1.faces().sort_by_distance(p)[0] for p in [
        (7.62, 0, 0),
    ]]
    chamfer(chamfer2_part_4_edges, length=CHAMFER2_PART_4_SIZE, length2=CHAMFER2_PART_4_SIZE2, reference=chamfer2_part_4_side[0])

    # Chamfer2 part 5
    chamfer2_part_5_edges = [part_1.edges().sort_by_distance(p)[0] for p in [
        (9.66, 0, 0),
    ]]
    chamfer2_part_5_side = [part_1.faces().sort_by_distance(p)[0] for p in [
        (10.16, 0, 0),
    ]]
    chamfer(chamfer2_part_5_edges, length=CHAMFER2_PART_5_SIZE, length2=CHAMFER2_PART_5_SIZE2, reference=chamfer2_part_5_side[0])

    # Chamfer2 part 6
    chamfer2_part_6_edges = [part_1.edges().sort_by_distance(p)[0] for p in [
        (12.2, 0, 0),
    ]]
    chamfer2_part_6_side = [part_1.faces().sort_by_distance(p)[0] for p in [
        (12.7, 0, 0),
    ]]
    chamfer(chamfer2_part_6_edges, length=CHAMFER2_PART_6_SIZE, length2=CHAMFER2_PART_6_SIZE2, reference=chamfer2_part_6_side[0])

    # Chamfer2 part 7
    chamfer2_part_7_edges = [part_1.edges().sort_by_distance(p)[0] for p in [
        (14.74, 0, 0),
    ]]
    chamfer2_part_7_side = [part_1.faces().sort_by_distance(p)[0] for p in [
        (15.24, 0, 0),
    ]]
    chamfer(chamfer2_part_7_edges, length=CHAMFER2_PART_7_SIZE, length2=CHAMFER2_PART_7_SIZE2, reference=chamfer2_part_7_side[0])

    # Chamfer2 part 8
    chamfer2_part_8_edges = [part_1.edges().sort_by_distance(p)[0] for p in [
        (17.28, 0, 0),
    ]]
    chamfer2_part_8_side = [part_1.faces().sort_by_distance(p)[0] for p in [
        (17.78, 0, 0),
    ]]
    chamfer(chamfer2_part_8_edges, length=CHAMFER2_PART_8_SIZE, length2=CHAMFER2_PART_8_SIZE2, reference=chamfer2_part_8_side[0])

    # Chamfer2 part 9
    chamfer2_part_9_edges = [part_1.edges().sort_by_distance(p)[0] for p in [
        (19.82, 0, 0),
    ]]
    chamfer2_part_9_side = [part_1.faces().sort_by_distance(p)[0] for p in [
        (20.32, 0, 0),
    ]]
    chamfer(chamfer2_part_9_edges, length=CHAMFER2_PART_9_SIZE, length2=CHAMFER2_PART_9_SIZE2, reference=chamfer2_part_9_side[0])

    # Chamfer2 part 10
    chamfer2_part_10_edges = [part_1.edges().sort_by_distance(p)[0] for p in [
        (22.36, 0, 0),
    ]]
    chamfer2_part_10_side = [part_1.faces().sort_by_distance(p)[0] for p in [
        (22.86, 0, 0),
    ]]
    chamfer(chamfer2_part_10_edges, length=CHAMFER2_PART_10_SIZE, length2=CHAMFER2_PART_10_SIZE2, reference=chamfer2_part_10_side[0])

    # Chamfer2 part 11
    chamfer2_part_11_edges = [part_1.edges().sort_by_distance(p)[0] for p in [
        (24.9, 0, 0),
    ]]
    chamfer2_part_11_side = [part_1.faces().sort_by_distance(p)[0] for p in [
        (25.4, 0, 0),
    ]]
    chamfer(chamfer2_part_11_edges, length=CHAMFER2_PART_11_SIZE, length2=CHAMFER2_PART_11_SIZE2, reference=chamfer2_part_11_side[0])

    # Chamfer2 part 12
    chamfer2_part_12_edges = [part_1.edges().sort_by_distance(p)[0] for p in [
        (27.44, 0, 0),
    ]]
    chamfer2_part_12_side = [part_1.faces().sort_by_distance(p)[0] for p in [
        (27.94, 0, 0),
    ]]
    chamfer(chamfer2_part_12_edges, length=CHAMFER2_PART_12_SIZE, length2=CHAMFER2_PART_12_SIZE2, reference=chamfer2_part_12_side[0])

    # Chamfer2 part 13
    chamfer2_part_13_edges = [part_1.edges().sort_by_distance(p)[0] for p in [
        (29.98, 0, 0),
    ]]
    chamfer2_part_13_side = [part_1.faces().sort_by_distance(p)[0] for p in [
        (30.48, 0, 0),
    ]]
    chamfer(chamfer2_part_13_edges, length=CHAMFER2_PART_13_SIZE, length2=CHAMFER2_PART_13_SIZE2, reference=chamfer2_part_13_side[0])

    # Chamfer2 part 14
    chamfer2_part_14_edges = [part_1.edges().sort_by_distance(p)[0] for p in [
        (32.52, 0, 0),
    ]]
    chamfer2_part_14_side = [part_1.faces().sort_by_distance(p)[0] for p in [
        (33.02, 0, 0),
    ]]
    chamfer(chamfer2_part_14_edges, length=CHAMFER2_PART_14_SIZE, length2=CHAMFER2_PART_14_SIZE2, reference=chamfer2_part_14_side[0])

    # Chamfer2 part 15
    chamfer2_part_15_edges = [part_1.edges().sort_by_distance(p)[0] for p in [
        (35.06, 0, 0),
    ]]
    chamfer2_part_15_side = [part_1.faces().sort_by_distance(p)[0] for p in [
        (35.56, 0, 0),
    ]]
    chamfer(chamfer2_part_15_edges, length=CHAMFER2_PART_15_SIZE, length2=CHAMFER2_PART_15_SIZE2, reference=chamfer2_part_15_side[0])

    # Chamfer2 part 16
    chamfer2_part_16_edges = [part_1.edges().sort_by_distance(p)[0] for p in [
        (37.6, 0, 0),
    ]]
    chamfer2_part_16_side = [part_1.faces().sort_by_distance(p)[0] for p in [
        (38.1, 0, 0),
    ]]
    chamfer(chamfer2_part_16_edges, length=CHAMFER2_PART_16_SIZE, length2=CHAMFER2_PART_16_SIZE2, reference=chamfer2_part_16_side[0])

    # Fillet2
    fillet2_edges = [part_1.edges().sort_by_distance(p)[0] for p in [
        (9.66, 0.5, 0),
        (17.28, 0.5, 0),
        (22.36, 0.5, 0),
        (27.44, 0.5, 0),
        (29.98, 0.5, 0),
        (-0.5, 0.5, 0),
        (2.04, 0.5, 0),
        (4.58, 0.5, 0),
        (7.12, 0.5, 0),
        (12.2, 0.5, 0),
        (14.74, 0.5, 0),
        (19.82, 0.5, 0),
        (24.9, 0.5, 0),
        (32.52, 0.5, 0),
        (35.06, 0.5, 0),
        (37.6, 0.5, 0),
    ]]
    fillet(fillet2_edges, radius=FILLET2_R)

    # Sketch3 → Cut-Extrude1 (cut, through all)
    with BuildSketch(Plane.XY.offset(1.27)):
        Polygon((29.21, 9), (29.21, 6.5), (29.21, -0.904576426), (41.732415353, -0.904576426), (41.732415353, 12.006276544), (29.21, 12.006276544), align=None)
    extrude(amount=-CUT_EXTRUDE1_DEPTH, mode=Mode.SUBTRACT)

    # Sketch4 → Cut-Extrude2 (cut, through all)
    with BuildSketch(Plane.XY.offset(1.27)):
        Polygon((16.51, 9), (16.51, 6.5), (16.51, -1.163081692), (30.596050739, -1.163081692), (30.596050739, 12.130577479), (16.51, 12.130577479), align=None)
    extrude(amount=-CUT_EXTRUDE2_DEPTH, mode=Mode.SUBTRACT)

    # Sketch5 → Cut-Extrude3 (cut, two sides)
    with BuildSketch(Plane.XY.offset(1.27)) as cut_extrude3_sk:
        with Locations((10.16, 5.75)):
            Rectangle(SKETCH5_W, SKETCH5_H)
    extrude(amount=CUT_EXTRUDE3_DEPTH, mode=Mode.SUBTRACT)
    extrude(cut_extrude3_sk.sketch, amount=-CUT_EXTRUDE3_DEPTH_BACK, mode=Mode.SUBTRACT)


solid = part_1.part
